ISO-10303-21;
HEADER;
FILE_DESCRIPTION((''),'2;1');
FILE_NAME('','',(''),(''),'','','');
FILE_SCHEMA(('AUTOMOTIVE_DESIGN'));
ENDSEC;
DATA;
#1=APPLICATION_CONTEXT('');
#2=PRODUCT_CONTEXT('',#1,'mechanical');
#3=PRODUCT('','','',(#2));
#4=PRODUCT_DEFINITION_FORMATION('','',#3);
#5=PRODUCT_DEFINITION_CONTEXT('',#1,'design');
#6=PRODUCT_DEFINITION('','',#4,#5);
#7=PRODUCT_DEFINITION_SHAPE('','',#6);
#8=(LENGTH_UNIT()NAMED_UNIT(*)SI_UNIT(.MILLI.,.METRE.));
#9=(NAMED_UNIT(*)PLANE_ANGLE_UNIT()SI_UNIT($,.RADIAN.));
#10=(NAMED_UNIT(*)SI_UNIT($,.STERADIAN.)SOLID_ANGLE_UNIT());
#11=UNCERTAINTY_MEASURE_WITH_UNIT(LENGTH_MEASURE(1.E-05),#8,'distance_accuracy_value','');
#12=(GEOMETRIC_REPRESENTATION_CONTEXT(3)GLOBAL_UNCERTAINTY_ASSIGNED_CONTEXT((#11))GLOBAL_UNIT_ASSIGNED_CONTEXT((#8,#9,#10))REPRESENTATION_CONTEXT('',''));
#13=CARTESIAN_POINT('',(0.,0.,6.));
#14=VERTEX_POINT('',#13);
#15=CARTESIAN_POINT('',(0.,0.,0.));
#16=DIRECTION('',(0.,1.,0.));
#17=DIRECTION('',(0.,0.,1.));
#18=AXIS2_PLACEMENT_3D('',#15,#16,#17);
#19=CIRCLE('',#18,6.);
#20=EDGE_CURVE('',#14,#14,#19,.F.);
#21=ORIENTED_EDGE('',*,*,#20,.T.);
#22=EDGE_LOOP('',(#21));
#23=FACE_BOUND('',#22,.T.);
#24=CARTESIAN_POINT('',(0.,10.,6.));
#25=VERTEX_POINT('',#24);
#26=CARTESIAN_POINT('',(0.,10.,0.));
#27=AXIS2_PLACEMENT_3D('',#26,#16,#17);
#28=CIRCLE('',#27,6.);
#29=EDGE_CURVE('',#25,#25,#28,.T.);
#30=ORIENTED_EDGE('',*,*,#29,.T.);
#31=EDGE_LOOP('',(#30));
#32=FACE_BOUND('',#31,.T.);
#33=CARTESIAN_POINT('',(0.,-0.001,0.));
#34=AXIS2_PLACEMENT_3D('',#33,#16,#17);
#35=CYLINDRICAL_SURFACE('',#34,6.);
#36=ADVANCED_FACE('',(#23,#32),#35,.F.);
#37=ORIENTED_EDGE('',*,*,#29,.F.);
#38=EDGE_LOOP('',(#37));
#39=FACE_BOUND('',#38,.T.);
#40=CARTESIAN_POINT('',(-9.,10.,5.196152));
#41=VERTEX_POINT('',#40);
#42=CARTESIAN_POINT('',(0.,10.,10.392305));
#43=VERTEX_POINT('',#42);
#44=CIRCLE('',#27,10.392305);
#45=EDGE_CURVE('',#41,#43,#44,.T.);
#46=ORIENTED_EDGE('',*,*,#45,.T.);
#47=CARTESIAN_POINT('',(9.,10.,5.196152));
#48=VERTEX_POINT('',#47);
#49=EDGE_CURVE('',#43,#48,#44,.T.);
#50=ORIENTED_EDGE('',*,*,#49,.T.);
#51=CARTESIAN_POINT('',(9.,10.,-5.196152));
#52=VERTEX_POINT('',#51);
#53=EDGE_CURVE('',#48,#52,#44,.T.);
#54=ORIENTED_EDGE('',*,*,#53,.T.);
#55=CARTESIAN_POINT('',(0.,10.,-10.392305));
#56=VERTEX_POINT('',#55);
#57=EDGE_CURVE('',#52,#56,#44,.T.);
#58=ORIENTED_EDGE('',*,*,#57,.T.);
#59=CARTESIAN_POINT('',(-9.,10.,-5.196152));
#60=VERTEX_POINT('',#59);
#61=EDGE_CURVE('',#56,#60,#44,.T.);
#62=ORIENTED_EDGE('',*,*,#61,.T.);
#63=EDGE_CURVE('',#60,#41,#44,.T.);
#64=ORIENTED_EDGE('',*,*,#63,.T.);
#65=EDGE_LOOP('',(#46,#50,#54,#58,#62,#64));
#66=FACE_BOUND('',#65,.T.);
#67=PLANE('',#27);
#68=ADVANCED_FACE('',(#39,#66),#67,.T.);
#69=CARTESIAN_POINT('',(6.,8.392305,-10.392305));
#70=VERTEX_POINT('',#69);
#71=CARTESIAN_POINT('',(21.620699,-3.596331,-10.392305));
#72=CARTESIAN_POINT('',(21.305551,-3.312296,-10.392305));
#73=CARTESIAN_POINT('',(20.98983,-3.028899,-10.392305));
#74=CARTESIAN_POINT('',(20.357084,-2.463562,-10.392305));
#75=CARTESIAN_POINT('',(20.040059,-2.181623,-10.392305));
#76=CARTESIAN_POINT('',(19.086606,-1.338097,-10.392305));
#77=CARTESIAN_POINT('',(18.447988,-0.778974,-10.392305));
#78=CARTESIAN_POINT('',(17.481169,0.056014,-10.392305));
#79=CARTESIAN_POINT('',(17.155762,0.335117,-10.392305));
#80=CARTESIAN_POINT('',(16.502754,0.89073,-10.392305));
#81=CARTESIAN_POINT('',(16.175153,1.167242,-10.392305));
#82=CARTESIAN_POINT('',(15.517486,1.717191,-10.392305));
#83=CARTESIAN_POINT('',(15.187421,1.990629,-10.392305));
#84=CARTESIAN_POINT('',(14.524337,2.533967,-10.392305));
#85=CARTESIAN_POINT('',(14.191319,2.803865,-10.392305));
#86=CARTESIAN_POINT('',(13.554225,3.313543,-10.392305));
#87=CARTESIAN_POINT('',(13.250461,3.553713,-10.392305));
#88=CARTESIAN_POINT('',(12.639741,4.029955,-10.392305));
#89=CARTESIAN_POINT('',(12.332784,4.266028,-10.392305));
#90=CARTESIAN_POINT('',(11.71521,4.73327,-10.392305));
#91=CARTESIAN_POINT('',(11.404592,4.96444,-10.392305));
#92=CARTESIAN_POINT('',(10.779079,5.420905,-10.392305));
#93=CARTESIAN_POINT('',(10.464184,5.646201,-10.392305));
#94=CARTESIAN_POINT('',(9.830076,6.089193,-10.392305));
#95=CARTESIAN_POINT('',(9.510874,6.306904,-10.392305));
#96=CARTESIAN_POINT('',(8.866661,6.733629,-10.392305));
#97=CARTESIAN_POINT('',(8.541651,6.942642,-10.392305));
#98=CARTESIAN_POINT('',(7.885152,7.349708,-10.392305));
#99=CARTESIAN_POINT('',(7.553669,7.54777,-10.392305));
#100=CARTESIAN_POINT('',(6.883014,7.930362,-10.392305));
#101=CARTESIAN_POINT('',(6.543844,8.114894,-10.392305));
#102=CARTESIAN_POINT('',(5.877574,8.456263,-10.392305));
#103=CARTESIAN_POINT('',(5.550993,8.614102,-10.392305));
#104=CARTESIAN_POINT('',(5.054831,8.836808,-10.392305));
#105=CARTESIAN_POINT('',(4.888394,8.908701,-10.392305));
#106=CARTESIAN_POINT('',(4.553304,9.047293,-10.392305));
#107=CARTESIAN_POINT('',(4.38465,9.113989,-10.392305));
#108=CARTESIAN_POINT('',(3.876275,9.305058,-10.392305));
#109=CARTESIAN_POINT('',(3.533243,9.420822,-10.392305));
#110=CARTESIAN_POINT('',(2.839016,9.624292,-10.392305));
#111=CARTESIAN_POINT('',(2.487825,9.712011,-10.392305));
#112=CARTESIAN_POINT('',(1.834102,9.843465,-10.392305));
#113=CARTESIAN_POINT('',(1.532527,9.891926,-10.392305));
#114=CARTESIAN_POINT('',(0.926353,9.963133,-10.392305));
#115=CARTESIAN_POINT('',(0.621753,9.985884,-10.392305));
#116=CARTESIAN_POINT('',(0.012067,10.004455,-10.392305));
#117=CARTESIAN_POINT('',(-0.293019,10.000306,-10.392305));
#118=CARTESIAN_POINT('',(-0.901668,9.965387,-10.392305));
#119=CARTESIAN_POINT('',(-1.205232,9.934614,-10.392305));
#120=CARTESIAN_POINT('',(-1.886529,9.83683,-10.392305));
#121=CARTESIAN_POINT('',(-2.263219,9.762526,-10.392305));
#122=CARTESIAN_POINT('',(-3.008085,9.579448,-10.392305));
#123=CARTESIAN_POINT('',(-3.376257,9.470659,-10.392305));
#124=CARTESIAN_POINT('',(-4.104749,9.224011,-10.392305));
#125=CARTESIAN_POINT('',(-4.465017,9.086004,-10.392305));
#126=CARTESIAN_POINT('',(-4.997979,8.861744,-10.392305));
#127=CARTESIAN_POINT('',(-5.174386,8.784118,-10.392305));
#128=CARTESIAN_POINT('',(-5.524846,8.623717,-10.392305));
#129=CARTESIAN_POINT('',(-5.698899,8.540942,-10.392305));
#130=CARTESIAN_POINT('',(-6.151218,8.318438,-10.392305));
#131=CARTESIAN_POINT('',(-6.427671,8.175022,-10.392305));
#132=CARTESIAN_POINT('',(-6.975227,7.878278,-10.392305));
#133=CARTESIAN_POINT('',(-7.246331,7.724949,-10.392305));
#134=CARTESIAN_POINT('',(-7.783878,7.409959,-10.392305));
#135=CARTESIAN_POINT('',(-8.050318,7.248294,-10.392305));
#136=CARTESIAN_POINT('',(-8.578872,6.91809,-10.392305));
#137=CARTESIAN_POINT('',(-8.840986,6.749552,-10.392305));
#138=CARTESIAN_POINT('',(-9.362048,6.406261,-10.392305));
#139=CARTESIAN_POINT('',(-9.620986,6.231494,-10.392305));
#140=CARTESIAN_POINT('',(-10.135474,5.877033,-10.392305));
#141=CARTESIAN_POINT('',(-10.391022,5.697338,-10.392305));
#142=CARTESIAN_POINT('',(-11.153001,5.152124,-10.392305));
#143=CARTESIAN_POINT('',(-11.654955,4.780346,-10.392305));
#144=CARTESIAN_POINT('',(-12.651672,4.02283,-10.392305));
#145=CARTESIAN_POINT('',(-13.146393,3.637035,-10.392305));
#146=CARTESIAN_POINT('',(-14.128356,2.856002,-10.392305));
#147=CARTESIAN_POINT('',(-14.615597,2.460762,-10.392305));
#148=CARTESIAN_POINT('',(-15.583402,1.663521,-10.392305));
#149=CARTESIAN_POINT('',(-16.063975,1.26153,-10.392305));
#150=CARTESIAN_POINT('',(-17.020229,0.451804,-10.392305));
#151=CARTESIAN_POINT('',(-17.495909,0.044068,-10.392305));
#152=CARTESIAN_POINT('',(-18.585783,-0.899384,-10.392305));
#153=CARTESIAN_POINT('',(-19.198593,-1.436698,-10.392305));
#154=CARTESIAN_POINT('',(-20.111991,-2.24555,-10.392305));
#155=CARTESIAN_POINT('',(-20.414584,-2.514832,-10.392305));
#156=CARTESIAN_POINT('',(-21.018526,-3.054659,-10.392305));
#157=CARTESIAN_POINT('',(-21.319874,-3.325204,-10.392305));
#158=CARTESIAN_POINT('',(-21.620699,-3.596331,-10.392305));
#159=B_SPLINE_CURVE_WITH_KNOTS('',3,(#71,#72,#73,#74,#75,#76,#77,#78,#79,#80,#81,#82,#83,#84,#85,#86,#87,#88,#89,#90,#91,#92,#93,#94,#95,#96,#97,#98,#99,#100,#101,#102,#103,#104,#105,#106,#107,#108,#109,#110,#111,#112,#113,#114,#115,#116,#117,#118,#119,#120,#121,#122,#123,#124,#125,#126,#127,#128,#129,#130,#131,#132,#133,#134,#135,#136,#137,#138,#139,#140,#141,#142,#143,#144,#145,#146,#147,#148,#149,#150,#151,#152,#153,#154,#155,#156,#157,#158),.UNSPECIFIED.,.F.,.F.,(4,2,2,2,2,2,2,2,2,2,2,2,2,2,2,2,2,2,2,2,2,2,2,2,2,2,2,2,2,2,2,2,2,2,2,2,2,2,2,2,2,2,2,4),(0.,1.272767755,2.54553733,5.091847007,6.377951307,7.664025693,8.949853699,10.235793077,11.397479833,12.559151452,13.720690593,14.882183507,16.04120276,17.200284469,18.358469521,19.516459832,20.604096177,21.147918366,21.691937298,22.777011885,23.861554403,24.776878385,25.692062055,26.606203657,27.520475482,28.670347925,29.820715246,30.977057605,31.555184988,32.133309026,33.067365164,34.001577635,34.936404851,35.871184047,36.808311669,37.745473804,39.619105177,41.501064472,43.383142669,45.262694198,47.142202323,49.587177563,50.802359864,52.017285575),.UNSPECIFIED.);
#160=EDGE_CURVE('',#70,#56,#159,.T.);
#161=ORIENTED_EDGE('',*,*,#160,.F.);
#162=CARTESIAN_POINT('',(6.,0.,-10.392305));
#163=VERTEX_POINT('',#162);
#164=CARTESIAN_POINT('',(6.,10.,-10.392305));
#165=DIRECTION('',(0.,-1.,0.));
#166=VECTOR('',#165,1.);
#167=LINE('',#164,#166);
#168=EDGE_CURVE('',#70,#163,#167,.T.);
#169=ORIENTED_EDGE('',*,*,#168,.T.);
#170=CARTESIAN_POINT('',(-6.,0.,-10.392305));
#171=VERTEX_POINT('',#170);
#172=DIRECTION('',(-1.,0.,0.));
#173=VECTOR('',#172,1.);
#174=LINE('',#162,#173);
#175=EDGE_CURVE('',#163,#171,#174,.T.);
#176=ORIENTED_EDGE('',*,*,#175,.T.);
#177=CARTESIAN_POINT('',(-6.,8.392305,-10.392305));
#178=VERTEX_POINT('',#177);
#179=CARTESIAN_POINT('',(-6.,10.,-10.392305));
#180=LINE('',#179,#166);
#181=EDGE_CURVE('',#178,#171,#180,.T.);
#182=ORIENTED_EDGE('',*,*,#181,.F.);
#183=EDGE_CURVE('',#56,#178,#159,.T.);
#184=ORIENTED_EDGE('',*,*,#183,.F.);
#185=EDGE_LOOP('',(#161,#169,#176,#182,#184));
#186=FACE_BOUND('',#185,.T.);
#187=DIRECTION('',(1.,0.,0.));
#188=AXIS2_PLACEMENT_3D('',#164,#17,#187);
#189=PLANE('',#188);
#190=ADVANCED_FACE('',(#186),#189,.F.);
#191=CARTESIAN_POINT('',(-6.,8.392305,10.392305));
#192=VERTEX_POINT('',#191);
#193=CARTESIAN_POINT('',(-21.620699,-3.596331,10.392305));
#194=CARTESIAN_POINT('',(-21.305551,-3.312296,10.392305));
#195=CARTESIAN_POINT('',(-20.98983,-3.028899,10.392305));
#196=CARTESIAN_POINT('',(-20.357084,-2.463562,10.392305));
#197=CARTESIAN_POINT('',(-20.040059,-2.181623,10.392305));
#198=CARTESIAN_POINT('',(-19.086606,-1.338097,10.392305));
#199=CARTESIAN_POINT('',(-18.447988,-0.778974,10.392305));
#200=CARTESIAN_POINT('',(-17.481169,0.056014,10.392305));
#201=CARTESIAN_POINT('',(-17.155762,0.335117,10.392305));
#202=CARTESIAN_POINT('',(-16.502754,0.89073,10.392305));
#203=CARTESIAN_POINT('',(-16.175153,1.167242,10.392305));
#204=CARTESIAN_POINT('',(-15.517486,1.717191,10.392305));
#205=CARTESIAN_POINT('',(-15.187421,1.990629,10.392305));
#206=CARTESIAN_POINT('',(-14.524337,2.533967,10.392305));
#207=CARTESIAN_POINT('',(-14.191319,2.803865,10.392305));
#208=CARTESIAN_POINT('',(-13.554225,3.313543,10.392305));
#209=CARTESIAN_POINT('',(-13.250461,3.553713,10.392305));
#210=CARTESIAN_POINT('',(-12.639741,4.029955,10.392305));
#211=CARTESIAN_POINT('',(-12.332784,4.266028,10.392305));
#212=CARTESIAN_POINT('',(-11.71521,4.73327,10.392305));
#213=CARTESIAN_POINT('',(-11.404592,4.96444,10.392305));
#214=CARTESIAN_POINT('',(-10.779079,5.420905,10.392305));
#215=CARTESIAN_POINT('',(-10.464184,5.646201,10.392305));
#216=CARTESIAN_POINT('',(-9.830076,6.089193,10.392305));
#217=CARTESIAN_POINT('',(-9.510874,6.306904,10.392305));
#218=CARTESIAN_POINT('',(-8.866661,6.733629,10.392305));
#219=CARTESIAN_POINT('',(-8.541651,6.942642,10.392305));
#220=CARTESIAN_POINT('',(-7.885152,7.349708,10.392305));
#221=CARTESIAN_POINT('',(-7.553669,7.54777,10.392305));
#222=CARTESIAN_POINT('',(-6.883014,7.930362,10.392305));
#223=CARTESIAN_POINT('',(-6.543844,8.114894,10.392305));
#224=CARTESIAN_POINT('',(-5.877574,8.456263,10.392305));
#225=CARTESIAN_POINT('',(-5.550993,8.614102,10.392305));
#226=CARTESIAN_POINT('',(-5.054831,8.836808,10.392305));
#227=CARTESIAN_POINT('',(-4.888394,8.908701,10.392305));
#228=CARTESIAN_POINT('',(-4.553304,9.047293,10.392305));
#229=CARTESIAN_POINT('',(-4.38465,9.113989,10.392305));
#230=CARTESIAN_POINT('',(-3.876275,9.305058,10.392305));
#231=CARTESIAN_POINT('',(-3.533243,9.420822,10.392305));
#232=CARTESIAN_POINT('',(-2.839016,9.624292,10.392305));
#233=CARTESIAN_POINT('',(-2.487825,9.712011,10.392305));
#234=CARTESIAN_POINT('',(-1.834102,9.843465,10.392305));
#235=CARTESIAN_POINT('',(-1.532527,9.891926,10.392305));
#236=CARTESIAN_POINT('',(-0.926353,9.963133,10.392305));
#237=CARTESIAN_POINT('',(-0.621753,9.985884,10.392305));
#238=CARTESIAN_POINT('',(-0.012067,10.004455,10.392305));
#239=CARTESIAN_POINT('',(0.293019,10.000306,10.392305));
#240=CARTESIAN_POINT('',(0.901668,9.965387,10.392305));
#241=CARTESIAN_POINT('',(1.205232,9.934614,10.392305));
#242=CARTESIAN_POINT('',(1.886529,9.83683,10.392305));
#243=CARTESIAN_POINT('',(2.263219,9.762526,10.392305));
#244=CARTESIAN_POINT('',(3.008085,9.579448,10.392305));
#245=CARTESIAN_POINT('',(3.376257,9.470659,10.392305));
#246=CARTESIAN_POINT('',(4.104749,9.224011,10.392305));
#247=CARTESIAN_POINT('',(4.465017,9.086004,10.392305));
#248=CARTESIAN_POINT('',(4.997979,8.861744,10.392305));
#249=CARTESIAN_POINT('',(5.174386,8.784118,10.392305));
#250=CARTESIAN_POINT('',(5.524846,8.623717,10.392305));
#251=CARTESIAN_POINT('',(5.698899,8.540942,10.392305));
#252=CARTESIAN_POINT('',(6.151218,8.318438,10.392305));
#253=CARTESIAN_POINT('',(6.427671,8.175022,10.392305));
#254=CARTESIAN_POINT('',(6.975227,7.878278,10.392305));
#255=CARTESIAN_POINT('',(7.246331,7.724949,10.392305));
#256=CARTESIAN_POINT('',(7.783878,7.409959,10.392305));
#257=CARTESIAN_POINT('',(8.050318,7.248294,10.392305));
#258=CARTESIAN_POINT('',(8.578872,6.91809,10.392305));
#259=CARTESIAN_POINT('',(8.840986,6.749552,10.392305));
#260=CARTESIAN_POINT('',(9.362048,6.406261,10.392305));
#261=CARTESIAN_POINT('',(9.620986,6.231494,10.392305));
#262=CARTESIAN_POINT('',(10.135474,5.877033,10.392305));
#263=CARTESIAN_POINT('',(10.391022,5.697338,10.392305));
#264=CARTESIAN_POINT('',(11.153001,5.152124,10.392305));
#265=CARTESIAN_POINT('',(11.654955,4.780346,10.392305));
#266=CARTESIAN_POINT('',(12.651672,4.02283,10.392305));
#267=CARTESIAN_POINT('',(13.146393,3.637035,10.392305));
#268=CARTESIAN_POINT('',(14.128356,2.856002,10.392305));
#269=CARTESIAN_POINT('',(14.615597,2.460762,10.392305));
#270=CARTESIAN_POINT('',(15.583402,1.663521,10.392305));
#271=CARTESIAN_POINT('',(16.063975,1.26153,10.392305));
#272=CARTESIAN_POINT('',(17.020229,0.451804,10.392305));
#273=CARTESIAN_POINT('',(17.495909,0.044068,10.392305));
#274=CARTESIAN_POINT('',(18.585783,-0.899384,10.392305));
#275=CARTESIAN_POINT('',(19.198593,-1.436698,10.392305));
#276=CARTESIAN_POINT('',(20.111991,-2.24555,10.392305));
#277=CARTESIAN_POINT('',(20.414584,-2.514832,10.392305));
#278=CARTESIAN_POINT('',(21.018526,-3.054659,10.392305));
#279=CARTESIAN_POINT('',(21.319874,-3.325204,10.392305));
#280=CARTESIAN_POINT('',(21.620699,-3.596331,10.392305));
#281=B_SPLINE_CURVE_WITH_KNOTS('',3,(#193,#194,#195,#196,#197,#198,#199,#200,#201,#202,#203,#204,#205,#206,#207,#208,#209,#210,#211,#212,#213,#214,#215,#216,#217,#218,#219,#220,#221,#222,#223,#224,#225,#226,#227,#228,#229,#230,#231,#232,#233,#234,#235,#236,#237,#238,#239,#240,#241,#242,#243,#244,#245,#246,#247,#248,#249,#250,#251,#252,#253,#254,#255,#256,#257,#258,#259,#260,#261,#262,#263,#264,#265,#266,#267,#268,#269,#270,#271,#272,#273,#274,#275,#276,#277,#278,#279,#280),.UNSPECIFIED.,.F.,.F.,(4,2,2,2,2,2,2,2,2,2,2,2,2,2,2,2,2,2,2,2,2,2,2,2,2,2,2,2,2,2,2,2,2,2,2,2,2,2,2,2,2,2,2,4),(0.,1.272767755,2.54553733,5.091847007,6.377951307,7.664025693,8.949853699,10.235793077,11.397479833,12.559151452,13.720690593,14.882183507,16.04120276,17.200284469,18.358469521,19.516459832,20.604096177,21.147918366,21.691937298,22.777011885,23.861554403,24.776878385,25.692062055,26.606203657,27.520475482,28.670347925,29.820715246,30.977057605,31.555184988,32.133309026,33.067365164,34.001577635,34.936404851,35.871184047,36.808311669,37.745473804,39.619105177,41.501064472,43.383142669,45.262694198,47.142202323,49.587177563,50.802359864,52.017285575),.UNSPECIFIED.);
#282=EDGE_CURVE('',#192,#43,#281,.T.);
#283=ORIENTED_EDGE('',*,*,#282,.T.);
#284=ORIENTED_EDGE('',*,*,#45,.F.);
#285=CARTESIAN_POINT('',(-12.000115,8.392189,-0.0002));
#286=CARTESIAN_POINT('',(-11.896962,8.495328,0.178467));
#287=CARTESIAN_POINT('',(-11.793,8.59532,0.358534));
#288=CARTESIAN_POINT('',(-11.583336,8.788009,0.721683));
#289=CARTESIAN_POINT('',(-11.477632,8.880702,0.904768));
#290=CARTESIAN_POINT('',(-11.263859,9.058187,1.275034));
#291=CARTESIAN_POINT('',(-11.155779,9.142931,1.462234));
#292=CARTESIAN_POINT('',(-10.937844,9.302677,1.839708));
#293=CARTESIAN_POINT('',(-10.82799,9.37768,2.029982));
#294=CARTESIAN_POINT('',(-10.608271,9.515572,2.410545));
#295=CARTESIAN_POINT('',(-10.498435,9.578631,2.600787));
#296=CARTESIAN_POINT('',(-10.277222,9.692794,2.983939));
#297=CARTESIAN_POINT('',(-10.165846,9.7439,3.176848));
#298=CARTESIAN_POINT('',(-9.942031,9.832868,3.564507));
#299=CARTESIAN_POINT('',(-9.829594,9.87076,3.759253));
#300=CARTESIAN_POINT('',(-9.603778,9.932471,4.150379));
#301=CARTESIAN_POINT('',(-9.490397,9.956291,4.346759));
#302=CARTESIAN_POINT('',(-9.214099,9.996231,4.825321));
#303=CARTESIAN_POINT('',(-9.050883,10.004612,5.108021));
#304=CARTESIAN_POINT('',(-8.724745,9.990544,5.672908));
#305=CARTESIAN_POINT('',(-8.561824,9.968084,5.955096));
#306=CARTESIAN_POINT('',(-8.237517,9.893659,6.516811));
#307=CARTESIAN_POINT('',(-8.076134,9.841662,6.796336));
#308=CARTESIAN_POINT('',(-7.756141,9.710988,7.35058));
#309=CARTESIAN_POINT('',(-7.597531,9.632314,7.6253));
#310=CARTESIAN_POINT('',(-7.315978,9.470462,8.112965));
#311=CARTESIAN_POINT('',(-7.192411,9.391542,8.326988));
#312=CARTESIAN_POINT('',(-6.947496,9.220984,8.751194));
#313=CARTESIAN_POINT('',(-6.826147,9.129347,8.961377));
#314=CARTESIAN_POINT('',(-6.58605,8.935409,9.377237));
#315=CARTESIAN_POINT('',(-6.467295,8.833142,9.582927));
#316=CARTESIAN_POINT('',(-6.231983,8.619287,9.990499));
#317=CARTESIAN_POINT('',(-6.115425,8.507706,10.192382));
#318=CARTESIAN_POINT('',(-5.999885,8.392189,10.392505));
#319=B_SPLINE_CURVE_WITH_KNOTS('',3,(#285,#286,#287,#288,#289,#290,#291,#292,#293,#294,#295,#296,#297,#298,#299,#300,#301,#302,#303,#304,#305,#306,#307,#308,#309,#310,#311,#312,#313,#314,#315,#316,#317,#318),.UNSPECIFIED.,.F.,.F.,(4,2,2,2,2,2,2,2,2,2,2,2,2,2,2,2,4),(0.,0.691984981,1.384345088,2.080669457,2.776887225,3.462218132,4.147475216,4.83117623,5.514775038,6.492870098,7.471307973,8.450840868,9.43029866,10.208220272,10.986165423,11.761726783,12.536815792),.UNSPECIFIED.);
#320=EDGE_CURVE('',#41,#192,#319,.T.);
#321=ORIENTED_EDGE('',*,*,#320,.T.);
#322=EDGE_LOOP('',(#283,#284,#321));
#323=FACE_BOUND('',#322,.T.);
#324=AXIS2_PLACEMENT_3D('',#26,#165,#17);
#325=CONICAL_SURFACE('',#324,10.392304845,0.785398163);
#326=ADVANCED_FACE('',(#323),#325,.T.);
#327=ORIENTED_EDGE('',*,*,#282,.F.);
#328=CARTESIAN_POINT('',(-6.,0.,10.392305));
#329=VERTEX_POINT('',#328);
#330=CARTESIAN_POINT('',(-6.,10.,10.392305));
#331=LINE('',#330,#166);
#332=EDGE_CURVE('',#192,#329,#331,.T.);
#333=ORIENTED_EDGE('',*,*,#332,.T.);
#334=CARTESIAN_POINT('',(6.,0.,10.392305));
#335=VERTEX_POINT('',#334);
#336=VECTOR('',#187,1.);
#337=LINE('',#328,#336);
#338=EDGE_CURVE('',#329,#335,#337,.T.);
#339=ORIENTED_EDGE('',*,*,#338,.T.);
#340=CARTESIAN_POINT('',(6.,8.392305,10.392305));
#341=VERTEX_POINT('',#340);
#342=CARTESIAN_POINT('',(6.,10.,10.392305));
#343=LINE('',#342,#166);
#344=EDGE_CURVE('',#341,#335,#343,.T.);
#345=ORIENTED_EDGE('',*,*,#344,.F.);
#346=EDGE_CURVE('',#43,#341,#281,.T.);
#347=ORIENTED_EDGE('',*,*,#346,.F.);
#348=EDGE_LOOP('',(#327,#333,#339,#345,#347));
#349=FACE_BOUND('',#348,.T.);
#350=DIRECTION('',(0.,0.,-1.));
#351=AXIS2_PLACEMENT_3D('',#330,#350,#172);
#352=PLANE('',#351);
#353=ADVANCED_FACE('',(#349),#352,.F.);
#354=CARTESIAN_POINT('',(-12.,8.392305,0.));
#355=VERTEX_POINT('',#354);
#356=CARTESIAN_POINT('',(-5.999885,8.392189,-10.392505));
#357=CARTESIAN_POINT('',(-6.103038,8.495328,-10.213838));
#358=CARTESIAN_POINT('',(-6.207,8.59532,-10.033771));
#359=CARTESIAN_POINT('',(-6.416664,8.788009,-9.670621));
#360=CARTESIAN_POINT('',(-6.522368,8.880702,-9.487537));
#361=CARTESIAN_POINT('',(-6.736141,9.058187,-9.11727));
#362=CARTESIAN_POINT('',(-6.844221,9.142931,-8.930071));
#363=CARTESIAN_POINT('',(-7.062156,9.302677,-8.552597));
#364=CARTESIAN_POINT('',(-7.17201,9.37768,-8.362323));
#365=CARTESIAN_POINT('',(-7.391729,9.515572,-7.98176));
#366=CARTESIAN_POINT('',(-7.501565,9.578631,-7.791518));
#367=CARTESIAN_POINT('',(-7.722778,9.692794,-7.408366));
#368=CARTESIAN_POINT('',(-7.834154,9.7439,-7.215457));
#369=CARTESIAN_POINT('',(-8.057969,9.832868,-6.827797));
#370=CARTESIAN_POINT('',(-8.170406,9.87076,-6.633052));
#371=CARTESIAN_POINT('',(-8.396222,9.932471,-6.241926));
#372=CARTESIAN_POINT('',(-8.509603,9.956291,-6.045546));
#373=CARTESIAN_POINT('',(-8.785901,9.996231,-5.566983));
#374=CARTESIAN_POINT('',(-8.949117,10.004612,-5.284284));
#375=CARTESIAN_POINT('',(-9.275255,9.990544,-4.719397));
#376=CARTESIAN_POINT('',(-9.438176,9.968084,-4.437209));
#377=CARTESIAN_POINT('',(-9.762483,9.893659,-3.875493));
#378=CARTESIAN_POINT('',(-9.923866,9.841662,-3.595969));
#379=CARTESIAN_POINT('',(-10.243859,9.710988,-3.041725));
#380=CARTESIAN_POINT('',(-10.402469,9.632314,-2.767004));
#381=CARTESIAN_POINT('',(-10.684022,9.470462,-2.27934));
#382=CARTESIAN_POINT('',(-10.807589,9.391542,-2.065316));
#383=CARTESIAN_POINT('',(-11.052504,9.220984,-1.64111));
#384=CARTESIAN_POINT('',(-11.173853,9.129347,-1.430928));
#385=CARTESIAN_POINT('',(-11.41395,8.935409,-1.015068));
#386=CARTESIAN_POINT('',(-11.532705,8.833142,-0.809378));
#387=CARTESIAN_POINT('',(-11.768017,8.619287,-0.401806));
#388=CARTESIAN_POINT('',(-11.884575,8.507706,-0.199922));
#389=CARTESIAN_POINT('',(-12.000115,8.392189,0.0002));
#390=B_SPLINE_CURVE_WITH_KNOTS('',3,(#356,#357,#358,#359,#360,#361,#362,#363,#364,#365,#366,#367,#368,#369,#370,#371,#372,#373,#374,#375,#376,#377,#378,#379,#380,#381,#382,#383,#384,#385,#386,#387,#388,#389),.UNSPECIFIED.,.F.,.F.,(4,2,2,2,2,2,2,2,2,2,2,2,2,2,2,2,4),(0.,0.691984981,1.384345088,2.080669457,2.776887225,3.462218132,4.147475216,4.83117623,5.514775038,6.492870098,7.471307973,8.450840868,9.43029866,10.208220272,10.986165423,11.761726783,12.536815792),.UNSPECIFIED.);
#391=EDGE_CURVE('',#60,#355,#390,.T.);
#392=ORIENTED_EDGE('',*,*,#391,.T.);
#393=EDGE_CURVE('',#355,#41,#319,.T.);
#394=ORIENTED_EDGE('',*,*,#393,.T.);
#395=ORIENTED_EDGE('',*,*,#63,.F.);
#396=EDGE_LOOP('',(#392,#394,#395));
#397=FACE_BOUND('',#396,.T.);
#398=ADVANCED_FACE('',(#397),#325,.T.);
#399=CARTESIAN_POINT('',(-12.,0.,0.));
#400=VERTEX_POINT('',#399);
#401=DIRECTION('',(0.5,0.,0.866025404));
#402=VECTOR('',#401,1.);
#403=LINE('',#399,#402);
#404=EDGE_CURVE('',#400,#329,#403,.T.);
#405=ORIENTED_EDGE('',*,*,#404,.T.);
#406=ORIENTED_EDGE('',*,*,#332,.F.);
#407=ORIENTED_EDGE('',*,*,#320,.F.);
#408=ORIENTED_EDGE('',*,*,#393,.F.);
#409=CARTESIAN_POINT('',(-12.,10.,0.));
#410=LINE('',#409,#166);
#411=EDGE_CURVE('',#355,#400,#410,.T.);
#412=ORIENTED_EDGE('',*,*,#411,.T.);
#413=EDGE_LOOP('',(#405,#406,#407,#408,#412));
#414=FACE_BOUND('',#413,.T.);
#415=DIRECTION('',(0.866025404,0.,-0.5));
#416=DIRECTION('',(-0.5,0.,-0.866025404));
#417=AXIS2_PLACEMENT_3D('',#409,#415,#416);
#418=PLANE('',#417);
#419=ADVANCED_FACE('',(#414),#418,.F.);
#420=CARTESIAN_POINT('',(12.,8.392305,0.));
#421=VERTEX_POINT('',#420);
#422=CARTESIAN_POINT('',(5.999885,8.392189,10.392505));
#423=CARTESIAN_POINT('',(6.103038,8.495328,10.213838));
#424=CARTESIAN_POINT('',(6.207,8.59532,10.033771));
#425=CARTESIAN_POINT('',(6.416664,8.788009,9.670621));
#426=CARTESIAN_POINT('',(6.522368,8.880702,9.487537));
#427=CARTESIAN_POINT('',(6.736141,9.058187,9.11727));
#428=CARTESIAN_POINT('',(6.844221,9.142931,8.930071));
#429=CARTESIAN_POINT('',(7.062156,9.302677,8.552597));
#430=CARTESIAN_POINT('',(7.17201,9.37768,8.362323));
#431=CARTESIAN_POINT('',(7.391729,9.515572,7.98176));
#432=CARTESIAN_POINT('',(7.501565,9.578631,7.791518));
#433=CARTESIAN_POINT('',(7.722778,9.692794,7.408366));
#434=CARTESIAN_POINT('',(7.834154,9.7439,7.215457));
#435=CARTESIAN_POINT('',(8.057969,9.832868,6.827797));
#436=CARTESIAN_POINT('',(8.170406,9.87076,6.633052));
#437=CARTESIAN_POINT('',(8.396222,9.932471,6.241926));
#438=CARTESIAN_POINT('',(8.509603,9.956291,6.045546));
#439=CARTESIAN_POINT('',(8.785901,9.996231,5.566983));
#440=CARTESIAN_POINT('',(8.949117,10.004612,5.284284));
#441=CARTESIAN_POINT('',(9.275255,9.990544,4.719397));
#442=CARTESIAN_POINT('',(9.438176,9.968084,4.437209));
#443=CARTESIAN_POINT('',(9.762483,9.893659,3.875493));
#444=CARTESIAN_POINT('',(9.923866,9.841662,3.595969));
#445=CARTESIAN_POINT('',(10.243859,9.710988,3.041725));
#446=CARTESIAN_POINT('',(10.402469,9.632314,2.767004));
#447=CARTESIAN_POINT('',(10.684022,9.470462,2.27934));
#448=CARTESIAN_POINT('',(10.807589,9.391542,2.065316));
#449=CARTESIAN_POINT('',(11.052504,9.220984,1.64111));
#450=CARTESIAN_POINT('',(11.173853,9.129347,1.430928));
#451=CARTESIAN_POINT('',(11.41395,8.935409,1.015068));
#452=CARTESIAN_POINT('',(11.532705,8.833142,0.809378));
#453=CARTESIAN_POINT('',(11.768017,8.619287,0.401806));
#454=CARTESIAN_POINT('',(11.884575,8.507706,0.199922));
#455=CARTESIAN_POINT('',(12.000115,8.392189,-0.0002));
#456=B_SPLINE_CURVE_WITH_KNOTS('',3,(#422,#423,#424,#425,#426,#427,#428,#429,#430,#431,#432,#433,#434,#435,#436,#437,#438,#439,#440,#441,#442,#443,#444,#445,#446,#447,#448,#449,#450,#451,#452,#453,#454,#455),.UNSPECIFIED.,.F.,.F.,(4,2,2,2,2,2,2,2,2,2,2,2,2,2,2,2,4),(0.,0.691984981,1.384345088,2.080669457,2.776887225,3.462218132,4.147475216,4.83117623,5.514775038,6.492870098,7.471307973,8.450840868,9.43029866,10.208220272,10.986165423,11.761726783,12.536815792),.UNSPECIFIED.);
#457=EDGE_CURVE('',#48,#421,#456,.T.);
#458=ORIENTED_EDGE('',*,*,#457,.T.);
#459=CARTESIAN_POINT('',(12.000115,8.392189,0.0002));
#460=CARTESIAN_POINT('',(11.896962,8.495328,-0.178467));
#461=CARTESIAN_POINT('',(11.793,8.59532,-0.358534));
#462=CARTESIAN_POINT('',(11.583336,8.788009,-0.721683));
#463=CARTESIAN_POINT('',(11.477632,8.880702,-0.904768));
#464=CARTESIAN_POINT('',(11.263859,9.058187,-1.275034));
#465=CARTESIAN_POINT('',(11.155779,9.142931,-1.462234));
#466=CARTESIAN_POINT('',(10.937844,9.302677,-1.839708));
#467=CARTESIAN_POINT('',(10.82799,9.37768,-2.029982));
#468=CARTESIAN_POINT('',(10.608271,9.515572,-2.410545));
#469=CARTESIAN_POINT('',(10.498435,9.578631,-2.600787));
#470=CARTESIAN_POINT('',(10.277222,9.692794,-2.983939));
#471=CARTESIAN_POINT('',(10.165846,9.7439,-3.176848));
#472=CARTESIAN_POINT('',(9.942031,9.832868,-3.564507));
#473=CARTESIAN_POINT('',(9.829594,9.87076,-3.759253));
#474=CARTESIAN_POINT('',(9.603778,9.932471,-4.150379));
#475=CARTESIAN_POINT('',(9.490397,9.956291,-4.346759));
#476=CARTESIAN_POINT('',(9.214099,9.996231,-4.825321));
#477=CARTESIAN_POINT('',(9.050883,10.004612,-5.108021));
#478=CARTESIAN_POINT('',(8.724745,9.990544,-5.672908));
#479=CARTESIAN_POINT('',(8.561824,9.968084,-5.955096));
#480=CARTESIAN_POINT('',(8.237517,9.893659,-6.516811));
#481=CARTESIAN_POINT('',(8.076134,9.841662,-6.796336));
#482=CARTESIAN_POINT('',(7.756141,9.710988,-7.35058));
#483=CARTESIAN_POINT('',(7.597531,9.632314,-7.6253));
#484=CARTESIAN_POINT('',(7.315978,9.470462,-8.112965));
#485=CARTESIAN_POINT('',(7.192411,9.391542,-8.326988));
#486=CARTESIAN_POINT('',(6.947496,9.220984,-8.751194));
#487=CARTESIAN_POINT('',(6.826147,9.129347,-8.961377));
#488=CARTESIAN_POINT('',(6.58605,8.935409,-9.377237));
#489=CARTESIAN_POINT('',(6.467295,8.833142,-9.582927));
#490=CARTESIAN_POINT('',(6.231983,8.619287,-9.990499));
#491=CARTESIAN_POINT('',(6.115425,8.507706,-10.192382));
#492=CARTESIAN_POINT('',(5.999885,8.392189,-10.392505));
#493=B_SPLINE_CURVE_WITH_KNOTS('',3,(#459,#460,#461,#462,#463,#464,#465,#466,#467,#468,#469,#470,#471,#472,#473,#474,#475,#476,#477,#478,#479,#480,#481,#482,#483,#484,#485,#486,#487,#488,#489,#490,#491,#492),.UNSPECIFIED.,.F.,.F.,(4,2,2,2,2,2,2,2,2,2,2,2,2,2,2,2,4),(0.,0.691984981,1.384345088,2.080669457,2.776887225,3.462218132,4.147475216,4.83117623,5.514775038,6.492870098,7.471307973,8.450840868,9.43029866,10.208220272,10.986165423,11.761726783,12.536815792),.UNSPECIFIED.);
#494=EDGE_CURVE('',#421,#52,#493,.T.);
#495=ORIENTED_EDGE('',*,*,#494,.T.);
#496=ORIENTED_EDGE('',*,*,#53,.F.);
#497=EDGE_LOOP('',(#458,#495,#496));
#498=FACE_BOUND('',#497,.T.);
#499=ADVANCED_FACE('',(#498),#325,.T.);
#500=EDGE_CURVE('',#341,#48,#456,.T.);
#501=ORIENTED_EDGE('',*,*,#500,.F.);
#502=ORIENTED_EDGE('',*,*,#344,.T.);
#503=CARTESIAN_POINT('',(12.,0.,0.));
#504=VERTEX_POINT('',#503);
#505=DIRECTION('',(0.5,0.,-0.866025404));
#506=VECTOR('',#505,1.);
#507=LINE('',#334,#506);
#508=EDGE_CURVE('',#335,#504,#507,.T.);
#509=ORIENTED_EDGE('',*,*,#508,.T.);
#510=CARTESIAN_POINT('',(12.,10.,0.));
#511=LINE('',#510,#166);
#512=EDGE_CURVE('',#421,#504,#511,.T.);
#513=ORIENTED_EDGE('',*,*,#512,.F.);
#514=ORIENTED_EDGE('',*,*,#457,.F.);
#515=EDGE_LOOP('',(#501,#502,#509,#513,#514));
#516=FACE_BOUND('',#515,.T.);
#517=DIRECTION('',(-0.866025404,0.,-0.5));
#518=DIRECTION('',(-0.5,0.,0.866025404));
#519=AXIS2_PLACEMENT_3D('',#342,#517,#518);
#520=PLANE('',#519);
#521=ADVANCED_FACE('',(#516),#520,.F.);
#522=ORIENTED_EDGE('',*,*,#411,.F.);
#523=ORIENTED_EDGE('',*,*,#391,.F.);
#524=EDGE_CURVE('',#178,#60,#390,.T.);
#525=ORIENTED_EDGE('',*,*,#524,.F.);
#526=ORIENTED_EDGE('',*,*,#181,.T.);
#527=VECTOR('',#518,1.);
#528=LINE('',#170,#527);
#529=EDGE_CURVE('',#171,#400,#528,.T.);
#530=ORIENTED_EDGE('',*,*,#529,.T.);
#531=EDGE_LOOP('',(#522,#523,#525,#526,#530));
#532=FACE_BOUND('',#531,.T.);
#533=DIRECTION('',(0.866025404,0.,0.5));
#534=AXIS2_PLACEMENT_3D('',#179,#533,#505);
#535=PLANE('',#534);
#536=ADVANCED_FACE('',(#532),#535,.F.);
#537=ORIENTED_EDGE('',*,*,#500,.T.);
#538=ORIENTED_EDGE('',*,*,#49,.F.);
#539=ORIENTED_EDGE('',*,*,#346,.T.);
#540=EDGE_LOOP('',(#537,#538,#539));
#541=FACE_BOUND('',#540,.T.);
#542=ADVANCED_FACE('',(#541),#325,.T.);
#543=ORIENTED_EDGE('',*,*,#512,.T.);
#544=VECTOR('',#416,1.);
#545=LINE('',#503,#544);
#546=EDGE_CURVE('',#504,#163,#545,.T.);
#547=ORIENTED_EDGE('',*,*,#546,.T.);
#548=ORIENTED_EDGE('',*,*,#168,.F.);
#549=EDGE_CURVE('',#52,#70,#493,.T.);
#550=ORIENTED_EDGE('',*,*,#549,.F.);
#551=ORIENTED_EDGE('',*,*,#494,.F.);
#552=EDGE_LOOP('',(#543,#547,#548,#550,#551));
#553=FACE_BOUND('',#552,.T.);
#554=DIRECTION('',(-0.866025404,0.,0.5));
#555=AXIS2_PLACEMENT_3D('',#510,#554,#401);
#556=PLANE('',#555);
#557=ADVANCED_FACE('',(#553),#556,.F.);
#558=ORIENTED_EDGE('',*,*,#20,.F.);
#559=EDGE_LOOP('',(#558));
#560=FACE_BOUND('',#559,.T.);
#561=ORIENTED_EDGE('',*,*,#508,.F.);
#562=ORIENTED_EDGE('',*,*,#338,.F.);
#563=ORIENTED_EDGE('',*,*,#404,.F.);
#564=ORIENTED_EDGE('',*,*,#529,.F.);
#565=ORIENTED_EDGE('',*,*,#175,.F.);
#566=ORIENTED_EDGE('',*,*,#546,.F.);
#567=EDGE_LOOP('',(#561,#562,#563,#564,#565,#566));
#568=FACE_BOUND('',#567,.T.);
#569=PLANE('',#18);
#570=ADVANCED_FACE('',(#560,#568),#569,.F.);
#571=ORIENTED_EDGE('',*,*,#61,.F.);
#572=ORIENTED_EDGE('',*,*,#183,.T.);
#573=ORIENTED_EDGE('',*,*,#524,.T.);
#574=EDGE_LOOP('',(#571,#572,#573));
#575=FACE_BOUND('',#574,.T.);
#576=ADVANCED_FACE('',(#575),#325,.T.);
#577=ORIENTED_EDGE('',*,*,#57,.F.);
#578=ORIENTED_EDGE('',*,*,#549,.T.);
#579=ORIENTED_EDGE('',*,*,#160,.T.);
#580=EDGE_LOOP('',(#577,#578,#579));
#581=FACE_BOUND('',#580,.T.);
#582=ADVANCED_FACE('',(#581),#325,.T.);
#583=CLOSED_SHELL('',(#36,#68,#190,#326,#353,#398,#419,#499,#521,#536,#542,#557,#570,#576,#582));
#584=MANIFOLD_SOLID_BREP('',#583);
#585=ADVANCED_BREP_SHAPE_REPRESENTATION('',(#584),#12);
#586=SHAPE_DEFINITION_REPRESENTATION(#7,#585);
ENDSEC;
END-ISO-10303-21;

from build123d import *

# Parameters (mm, degrees)
BOSS_EXTRUDE1_DEPTH = 10
SKETCH2_OUTSIDE_W   = 56.658
SKETCH2_OUTSIDE_H   = 53.442
SKETCH2_OUTSIDE_R   = 10.392304845
CUT_EXTRUDE2_DEPTH  = 12
CUT_EXTRUDE2_DRAFT  = -45
CUT_EXTRUDE3_REACH  = 20.762
SKETCH3_R           = 6


with BuildPart() as part:
    # Sketch1 → Boss-Extrude1 (new body)
    with BuildSketch(Plane(origin=(0, 0, 0), x_dir=(1, 0, 0), z_dir=(0, 1, 0))):
        Polygon((6, -10.392304845), (12, 0), (6, 10.392304845), (-6, 10.392304845), (-12, 0), (-6, -10.392304845), align=None)
    extrude(amount=BOSS_EXTRUDE1_DEPTH)


with BuildPart() as cut_extrude2_tool:
    # Sketch2 outside → Cut-Extrude2 (with draft: the straight prism first)
    with BuildSketch(Plane(origin=(0, 10, 0), x_dir=(1, 0, 0), z_dir=(0, 1, 0))):
        Rectangle(SKETCH2_OUTSIDE_W, SKETCH2_OUTSIDE_H)
        Circle(SKETCH2_OUTSIDE_R, mode=Mode.SUBTRACT)
    extrude(amount=-CUT_EXTRUDE2_DEPTH)
    # Cut-Extrude2: the draft: its side faces are tilted about the plane it starts from
    cut_extrude2_sides = [cut_extrude2_tool.faces().sort_by_distance(p)[0] for p in [
        (0, 4, 26.721),
        (28.329, 4, 0),
        (0, 4, -26.721),
        (-28.329, 4, 0),
        (-10.392304845, 4, 0),
    ]]
    draft(cut_extrude2_sides, Plane(origin=(0, 10, 0), x_dir=(1, 0, 0), z_dir=(0, 1, 0)), CUT_EXTRUDE2_DRAFT)


with BuildPart() as part_1:
    add(part.part)

    # Cut-Extrude2: cut by cut_extrude2_tool
    add(cut_extrude2_tool.part, mode=Mode.SUBTRACT)

    # Sketch3 → Cut-Extrude3 (cut, up to next)
    with BuildSketch(Plane(origin=(0, 10, 0), x_dir=(1, 0, 0), z_dir=(0, 1, 0)), mode=Mode.PRIVATE) as cut_extrude3_sk1:
        with Locations(Location((0, 0, 0), (0, 0, 270))):
            Circle(SKETCH3_R)
    cut_extrude3_tool1 = extrude(cut_extrude3_sk1.sketch, amount=-CUT_EXTRUDE3_REACH, mode=Mode.PRIVATE) & part_1.part
    add(cut_extrude3_tool1.solids().sort_by_distance((0, 10, 0))[0], mode=Mode.SUBTRACT)


solid = part_1.part
